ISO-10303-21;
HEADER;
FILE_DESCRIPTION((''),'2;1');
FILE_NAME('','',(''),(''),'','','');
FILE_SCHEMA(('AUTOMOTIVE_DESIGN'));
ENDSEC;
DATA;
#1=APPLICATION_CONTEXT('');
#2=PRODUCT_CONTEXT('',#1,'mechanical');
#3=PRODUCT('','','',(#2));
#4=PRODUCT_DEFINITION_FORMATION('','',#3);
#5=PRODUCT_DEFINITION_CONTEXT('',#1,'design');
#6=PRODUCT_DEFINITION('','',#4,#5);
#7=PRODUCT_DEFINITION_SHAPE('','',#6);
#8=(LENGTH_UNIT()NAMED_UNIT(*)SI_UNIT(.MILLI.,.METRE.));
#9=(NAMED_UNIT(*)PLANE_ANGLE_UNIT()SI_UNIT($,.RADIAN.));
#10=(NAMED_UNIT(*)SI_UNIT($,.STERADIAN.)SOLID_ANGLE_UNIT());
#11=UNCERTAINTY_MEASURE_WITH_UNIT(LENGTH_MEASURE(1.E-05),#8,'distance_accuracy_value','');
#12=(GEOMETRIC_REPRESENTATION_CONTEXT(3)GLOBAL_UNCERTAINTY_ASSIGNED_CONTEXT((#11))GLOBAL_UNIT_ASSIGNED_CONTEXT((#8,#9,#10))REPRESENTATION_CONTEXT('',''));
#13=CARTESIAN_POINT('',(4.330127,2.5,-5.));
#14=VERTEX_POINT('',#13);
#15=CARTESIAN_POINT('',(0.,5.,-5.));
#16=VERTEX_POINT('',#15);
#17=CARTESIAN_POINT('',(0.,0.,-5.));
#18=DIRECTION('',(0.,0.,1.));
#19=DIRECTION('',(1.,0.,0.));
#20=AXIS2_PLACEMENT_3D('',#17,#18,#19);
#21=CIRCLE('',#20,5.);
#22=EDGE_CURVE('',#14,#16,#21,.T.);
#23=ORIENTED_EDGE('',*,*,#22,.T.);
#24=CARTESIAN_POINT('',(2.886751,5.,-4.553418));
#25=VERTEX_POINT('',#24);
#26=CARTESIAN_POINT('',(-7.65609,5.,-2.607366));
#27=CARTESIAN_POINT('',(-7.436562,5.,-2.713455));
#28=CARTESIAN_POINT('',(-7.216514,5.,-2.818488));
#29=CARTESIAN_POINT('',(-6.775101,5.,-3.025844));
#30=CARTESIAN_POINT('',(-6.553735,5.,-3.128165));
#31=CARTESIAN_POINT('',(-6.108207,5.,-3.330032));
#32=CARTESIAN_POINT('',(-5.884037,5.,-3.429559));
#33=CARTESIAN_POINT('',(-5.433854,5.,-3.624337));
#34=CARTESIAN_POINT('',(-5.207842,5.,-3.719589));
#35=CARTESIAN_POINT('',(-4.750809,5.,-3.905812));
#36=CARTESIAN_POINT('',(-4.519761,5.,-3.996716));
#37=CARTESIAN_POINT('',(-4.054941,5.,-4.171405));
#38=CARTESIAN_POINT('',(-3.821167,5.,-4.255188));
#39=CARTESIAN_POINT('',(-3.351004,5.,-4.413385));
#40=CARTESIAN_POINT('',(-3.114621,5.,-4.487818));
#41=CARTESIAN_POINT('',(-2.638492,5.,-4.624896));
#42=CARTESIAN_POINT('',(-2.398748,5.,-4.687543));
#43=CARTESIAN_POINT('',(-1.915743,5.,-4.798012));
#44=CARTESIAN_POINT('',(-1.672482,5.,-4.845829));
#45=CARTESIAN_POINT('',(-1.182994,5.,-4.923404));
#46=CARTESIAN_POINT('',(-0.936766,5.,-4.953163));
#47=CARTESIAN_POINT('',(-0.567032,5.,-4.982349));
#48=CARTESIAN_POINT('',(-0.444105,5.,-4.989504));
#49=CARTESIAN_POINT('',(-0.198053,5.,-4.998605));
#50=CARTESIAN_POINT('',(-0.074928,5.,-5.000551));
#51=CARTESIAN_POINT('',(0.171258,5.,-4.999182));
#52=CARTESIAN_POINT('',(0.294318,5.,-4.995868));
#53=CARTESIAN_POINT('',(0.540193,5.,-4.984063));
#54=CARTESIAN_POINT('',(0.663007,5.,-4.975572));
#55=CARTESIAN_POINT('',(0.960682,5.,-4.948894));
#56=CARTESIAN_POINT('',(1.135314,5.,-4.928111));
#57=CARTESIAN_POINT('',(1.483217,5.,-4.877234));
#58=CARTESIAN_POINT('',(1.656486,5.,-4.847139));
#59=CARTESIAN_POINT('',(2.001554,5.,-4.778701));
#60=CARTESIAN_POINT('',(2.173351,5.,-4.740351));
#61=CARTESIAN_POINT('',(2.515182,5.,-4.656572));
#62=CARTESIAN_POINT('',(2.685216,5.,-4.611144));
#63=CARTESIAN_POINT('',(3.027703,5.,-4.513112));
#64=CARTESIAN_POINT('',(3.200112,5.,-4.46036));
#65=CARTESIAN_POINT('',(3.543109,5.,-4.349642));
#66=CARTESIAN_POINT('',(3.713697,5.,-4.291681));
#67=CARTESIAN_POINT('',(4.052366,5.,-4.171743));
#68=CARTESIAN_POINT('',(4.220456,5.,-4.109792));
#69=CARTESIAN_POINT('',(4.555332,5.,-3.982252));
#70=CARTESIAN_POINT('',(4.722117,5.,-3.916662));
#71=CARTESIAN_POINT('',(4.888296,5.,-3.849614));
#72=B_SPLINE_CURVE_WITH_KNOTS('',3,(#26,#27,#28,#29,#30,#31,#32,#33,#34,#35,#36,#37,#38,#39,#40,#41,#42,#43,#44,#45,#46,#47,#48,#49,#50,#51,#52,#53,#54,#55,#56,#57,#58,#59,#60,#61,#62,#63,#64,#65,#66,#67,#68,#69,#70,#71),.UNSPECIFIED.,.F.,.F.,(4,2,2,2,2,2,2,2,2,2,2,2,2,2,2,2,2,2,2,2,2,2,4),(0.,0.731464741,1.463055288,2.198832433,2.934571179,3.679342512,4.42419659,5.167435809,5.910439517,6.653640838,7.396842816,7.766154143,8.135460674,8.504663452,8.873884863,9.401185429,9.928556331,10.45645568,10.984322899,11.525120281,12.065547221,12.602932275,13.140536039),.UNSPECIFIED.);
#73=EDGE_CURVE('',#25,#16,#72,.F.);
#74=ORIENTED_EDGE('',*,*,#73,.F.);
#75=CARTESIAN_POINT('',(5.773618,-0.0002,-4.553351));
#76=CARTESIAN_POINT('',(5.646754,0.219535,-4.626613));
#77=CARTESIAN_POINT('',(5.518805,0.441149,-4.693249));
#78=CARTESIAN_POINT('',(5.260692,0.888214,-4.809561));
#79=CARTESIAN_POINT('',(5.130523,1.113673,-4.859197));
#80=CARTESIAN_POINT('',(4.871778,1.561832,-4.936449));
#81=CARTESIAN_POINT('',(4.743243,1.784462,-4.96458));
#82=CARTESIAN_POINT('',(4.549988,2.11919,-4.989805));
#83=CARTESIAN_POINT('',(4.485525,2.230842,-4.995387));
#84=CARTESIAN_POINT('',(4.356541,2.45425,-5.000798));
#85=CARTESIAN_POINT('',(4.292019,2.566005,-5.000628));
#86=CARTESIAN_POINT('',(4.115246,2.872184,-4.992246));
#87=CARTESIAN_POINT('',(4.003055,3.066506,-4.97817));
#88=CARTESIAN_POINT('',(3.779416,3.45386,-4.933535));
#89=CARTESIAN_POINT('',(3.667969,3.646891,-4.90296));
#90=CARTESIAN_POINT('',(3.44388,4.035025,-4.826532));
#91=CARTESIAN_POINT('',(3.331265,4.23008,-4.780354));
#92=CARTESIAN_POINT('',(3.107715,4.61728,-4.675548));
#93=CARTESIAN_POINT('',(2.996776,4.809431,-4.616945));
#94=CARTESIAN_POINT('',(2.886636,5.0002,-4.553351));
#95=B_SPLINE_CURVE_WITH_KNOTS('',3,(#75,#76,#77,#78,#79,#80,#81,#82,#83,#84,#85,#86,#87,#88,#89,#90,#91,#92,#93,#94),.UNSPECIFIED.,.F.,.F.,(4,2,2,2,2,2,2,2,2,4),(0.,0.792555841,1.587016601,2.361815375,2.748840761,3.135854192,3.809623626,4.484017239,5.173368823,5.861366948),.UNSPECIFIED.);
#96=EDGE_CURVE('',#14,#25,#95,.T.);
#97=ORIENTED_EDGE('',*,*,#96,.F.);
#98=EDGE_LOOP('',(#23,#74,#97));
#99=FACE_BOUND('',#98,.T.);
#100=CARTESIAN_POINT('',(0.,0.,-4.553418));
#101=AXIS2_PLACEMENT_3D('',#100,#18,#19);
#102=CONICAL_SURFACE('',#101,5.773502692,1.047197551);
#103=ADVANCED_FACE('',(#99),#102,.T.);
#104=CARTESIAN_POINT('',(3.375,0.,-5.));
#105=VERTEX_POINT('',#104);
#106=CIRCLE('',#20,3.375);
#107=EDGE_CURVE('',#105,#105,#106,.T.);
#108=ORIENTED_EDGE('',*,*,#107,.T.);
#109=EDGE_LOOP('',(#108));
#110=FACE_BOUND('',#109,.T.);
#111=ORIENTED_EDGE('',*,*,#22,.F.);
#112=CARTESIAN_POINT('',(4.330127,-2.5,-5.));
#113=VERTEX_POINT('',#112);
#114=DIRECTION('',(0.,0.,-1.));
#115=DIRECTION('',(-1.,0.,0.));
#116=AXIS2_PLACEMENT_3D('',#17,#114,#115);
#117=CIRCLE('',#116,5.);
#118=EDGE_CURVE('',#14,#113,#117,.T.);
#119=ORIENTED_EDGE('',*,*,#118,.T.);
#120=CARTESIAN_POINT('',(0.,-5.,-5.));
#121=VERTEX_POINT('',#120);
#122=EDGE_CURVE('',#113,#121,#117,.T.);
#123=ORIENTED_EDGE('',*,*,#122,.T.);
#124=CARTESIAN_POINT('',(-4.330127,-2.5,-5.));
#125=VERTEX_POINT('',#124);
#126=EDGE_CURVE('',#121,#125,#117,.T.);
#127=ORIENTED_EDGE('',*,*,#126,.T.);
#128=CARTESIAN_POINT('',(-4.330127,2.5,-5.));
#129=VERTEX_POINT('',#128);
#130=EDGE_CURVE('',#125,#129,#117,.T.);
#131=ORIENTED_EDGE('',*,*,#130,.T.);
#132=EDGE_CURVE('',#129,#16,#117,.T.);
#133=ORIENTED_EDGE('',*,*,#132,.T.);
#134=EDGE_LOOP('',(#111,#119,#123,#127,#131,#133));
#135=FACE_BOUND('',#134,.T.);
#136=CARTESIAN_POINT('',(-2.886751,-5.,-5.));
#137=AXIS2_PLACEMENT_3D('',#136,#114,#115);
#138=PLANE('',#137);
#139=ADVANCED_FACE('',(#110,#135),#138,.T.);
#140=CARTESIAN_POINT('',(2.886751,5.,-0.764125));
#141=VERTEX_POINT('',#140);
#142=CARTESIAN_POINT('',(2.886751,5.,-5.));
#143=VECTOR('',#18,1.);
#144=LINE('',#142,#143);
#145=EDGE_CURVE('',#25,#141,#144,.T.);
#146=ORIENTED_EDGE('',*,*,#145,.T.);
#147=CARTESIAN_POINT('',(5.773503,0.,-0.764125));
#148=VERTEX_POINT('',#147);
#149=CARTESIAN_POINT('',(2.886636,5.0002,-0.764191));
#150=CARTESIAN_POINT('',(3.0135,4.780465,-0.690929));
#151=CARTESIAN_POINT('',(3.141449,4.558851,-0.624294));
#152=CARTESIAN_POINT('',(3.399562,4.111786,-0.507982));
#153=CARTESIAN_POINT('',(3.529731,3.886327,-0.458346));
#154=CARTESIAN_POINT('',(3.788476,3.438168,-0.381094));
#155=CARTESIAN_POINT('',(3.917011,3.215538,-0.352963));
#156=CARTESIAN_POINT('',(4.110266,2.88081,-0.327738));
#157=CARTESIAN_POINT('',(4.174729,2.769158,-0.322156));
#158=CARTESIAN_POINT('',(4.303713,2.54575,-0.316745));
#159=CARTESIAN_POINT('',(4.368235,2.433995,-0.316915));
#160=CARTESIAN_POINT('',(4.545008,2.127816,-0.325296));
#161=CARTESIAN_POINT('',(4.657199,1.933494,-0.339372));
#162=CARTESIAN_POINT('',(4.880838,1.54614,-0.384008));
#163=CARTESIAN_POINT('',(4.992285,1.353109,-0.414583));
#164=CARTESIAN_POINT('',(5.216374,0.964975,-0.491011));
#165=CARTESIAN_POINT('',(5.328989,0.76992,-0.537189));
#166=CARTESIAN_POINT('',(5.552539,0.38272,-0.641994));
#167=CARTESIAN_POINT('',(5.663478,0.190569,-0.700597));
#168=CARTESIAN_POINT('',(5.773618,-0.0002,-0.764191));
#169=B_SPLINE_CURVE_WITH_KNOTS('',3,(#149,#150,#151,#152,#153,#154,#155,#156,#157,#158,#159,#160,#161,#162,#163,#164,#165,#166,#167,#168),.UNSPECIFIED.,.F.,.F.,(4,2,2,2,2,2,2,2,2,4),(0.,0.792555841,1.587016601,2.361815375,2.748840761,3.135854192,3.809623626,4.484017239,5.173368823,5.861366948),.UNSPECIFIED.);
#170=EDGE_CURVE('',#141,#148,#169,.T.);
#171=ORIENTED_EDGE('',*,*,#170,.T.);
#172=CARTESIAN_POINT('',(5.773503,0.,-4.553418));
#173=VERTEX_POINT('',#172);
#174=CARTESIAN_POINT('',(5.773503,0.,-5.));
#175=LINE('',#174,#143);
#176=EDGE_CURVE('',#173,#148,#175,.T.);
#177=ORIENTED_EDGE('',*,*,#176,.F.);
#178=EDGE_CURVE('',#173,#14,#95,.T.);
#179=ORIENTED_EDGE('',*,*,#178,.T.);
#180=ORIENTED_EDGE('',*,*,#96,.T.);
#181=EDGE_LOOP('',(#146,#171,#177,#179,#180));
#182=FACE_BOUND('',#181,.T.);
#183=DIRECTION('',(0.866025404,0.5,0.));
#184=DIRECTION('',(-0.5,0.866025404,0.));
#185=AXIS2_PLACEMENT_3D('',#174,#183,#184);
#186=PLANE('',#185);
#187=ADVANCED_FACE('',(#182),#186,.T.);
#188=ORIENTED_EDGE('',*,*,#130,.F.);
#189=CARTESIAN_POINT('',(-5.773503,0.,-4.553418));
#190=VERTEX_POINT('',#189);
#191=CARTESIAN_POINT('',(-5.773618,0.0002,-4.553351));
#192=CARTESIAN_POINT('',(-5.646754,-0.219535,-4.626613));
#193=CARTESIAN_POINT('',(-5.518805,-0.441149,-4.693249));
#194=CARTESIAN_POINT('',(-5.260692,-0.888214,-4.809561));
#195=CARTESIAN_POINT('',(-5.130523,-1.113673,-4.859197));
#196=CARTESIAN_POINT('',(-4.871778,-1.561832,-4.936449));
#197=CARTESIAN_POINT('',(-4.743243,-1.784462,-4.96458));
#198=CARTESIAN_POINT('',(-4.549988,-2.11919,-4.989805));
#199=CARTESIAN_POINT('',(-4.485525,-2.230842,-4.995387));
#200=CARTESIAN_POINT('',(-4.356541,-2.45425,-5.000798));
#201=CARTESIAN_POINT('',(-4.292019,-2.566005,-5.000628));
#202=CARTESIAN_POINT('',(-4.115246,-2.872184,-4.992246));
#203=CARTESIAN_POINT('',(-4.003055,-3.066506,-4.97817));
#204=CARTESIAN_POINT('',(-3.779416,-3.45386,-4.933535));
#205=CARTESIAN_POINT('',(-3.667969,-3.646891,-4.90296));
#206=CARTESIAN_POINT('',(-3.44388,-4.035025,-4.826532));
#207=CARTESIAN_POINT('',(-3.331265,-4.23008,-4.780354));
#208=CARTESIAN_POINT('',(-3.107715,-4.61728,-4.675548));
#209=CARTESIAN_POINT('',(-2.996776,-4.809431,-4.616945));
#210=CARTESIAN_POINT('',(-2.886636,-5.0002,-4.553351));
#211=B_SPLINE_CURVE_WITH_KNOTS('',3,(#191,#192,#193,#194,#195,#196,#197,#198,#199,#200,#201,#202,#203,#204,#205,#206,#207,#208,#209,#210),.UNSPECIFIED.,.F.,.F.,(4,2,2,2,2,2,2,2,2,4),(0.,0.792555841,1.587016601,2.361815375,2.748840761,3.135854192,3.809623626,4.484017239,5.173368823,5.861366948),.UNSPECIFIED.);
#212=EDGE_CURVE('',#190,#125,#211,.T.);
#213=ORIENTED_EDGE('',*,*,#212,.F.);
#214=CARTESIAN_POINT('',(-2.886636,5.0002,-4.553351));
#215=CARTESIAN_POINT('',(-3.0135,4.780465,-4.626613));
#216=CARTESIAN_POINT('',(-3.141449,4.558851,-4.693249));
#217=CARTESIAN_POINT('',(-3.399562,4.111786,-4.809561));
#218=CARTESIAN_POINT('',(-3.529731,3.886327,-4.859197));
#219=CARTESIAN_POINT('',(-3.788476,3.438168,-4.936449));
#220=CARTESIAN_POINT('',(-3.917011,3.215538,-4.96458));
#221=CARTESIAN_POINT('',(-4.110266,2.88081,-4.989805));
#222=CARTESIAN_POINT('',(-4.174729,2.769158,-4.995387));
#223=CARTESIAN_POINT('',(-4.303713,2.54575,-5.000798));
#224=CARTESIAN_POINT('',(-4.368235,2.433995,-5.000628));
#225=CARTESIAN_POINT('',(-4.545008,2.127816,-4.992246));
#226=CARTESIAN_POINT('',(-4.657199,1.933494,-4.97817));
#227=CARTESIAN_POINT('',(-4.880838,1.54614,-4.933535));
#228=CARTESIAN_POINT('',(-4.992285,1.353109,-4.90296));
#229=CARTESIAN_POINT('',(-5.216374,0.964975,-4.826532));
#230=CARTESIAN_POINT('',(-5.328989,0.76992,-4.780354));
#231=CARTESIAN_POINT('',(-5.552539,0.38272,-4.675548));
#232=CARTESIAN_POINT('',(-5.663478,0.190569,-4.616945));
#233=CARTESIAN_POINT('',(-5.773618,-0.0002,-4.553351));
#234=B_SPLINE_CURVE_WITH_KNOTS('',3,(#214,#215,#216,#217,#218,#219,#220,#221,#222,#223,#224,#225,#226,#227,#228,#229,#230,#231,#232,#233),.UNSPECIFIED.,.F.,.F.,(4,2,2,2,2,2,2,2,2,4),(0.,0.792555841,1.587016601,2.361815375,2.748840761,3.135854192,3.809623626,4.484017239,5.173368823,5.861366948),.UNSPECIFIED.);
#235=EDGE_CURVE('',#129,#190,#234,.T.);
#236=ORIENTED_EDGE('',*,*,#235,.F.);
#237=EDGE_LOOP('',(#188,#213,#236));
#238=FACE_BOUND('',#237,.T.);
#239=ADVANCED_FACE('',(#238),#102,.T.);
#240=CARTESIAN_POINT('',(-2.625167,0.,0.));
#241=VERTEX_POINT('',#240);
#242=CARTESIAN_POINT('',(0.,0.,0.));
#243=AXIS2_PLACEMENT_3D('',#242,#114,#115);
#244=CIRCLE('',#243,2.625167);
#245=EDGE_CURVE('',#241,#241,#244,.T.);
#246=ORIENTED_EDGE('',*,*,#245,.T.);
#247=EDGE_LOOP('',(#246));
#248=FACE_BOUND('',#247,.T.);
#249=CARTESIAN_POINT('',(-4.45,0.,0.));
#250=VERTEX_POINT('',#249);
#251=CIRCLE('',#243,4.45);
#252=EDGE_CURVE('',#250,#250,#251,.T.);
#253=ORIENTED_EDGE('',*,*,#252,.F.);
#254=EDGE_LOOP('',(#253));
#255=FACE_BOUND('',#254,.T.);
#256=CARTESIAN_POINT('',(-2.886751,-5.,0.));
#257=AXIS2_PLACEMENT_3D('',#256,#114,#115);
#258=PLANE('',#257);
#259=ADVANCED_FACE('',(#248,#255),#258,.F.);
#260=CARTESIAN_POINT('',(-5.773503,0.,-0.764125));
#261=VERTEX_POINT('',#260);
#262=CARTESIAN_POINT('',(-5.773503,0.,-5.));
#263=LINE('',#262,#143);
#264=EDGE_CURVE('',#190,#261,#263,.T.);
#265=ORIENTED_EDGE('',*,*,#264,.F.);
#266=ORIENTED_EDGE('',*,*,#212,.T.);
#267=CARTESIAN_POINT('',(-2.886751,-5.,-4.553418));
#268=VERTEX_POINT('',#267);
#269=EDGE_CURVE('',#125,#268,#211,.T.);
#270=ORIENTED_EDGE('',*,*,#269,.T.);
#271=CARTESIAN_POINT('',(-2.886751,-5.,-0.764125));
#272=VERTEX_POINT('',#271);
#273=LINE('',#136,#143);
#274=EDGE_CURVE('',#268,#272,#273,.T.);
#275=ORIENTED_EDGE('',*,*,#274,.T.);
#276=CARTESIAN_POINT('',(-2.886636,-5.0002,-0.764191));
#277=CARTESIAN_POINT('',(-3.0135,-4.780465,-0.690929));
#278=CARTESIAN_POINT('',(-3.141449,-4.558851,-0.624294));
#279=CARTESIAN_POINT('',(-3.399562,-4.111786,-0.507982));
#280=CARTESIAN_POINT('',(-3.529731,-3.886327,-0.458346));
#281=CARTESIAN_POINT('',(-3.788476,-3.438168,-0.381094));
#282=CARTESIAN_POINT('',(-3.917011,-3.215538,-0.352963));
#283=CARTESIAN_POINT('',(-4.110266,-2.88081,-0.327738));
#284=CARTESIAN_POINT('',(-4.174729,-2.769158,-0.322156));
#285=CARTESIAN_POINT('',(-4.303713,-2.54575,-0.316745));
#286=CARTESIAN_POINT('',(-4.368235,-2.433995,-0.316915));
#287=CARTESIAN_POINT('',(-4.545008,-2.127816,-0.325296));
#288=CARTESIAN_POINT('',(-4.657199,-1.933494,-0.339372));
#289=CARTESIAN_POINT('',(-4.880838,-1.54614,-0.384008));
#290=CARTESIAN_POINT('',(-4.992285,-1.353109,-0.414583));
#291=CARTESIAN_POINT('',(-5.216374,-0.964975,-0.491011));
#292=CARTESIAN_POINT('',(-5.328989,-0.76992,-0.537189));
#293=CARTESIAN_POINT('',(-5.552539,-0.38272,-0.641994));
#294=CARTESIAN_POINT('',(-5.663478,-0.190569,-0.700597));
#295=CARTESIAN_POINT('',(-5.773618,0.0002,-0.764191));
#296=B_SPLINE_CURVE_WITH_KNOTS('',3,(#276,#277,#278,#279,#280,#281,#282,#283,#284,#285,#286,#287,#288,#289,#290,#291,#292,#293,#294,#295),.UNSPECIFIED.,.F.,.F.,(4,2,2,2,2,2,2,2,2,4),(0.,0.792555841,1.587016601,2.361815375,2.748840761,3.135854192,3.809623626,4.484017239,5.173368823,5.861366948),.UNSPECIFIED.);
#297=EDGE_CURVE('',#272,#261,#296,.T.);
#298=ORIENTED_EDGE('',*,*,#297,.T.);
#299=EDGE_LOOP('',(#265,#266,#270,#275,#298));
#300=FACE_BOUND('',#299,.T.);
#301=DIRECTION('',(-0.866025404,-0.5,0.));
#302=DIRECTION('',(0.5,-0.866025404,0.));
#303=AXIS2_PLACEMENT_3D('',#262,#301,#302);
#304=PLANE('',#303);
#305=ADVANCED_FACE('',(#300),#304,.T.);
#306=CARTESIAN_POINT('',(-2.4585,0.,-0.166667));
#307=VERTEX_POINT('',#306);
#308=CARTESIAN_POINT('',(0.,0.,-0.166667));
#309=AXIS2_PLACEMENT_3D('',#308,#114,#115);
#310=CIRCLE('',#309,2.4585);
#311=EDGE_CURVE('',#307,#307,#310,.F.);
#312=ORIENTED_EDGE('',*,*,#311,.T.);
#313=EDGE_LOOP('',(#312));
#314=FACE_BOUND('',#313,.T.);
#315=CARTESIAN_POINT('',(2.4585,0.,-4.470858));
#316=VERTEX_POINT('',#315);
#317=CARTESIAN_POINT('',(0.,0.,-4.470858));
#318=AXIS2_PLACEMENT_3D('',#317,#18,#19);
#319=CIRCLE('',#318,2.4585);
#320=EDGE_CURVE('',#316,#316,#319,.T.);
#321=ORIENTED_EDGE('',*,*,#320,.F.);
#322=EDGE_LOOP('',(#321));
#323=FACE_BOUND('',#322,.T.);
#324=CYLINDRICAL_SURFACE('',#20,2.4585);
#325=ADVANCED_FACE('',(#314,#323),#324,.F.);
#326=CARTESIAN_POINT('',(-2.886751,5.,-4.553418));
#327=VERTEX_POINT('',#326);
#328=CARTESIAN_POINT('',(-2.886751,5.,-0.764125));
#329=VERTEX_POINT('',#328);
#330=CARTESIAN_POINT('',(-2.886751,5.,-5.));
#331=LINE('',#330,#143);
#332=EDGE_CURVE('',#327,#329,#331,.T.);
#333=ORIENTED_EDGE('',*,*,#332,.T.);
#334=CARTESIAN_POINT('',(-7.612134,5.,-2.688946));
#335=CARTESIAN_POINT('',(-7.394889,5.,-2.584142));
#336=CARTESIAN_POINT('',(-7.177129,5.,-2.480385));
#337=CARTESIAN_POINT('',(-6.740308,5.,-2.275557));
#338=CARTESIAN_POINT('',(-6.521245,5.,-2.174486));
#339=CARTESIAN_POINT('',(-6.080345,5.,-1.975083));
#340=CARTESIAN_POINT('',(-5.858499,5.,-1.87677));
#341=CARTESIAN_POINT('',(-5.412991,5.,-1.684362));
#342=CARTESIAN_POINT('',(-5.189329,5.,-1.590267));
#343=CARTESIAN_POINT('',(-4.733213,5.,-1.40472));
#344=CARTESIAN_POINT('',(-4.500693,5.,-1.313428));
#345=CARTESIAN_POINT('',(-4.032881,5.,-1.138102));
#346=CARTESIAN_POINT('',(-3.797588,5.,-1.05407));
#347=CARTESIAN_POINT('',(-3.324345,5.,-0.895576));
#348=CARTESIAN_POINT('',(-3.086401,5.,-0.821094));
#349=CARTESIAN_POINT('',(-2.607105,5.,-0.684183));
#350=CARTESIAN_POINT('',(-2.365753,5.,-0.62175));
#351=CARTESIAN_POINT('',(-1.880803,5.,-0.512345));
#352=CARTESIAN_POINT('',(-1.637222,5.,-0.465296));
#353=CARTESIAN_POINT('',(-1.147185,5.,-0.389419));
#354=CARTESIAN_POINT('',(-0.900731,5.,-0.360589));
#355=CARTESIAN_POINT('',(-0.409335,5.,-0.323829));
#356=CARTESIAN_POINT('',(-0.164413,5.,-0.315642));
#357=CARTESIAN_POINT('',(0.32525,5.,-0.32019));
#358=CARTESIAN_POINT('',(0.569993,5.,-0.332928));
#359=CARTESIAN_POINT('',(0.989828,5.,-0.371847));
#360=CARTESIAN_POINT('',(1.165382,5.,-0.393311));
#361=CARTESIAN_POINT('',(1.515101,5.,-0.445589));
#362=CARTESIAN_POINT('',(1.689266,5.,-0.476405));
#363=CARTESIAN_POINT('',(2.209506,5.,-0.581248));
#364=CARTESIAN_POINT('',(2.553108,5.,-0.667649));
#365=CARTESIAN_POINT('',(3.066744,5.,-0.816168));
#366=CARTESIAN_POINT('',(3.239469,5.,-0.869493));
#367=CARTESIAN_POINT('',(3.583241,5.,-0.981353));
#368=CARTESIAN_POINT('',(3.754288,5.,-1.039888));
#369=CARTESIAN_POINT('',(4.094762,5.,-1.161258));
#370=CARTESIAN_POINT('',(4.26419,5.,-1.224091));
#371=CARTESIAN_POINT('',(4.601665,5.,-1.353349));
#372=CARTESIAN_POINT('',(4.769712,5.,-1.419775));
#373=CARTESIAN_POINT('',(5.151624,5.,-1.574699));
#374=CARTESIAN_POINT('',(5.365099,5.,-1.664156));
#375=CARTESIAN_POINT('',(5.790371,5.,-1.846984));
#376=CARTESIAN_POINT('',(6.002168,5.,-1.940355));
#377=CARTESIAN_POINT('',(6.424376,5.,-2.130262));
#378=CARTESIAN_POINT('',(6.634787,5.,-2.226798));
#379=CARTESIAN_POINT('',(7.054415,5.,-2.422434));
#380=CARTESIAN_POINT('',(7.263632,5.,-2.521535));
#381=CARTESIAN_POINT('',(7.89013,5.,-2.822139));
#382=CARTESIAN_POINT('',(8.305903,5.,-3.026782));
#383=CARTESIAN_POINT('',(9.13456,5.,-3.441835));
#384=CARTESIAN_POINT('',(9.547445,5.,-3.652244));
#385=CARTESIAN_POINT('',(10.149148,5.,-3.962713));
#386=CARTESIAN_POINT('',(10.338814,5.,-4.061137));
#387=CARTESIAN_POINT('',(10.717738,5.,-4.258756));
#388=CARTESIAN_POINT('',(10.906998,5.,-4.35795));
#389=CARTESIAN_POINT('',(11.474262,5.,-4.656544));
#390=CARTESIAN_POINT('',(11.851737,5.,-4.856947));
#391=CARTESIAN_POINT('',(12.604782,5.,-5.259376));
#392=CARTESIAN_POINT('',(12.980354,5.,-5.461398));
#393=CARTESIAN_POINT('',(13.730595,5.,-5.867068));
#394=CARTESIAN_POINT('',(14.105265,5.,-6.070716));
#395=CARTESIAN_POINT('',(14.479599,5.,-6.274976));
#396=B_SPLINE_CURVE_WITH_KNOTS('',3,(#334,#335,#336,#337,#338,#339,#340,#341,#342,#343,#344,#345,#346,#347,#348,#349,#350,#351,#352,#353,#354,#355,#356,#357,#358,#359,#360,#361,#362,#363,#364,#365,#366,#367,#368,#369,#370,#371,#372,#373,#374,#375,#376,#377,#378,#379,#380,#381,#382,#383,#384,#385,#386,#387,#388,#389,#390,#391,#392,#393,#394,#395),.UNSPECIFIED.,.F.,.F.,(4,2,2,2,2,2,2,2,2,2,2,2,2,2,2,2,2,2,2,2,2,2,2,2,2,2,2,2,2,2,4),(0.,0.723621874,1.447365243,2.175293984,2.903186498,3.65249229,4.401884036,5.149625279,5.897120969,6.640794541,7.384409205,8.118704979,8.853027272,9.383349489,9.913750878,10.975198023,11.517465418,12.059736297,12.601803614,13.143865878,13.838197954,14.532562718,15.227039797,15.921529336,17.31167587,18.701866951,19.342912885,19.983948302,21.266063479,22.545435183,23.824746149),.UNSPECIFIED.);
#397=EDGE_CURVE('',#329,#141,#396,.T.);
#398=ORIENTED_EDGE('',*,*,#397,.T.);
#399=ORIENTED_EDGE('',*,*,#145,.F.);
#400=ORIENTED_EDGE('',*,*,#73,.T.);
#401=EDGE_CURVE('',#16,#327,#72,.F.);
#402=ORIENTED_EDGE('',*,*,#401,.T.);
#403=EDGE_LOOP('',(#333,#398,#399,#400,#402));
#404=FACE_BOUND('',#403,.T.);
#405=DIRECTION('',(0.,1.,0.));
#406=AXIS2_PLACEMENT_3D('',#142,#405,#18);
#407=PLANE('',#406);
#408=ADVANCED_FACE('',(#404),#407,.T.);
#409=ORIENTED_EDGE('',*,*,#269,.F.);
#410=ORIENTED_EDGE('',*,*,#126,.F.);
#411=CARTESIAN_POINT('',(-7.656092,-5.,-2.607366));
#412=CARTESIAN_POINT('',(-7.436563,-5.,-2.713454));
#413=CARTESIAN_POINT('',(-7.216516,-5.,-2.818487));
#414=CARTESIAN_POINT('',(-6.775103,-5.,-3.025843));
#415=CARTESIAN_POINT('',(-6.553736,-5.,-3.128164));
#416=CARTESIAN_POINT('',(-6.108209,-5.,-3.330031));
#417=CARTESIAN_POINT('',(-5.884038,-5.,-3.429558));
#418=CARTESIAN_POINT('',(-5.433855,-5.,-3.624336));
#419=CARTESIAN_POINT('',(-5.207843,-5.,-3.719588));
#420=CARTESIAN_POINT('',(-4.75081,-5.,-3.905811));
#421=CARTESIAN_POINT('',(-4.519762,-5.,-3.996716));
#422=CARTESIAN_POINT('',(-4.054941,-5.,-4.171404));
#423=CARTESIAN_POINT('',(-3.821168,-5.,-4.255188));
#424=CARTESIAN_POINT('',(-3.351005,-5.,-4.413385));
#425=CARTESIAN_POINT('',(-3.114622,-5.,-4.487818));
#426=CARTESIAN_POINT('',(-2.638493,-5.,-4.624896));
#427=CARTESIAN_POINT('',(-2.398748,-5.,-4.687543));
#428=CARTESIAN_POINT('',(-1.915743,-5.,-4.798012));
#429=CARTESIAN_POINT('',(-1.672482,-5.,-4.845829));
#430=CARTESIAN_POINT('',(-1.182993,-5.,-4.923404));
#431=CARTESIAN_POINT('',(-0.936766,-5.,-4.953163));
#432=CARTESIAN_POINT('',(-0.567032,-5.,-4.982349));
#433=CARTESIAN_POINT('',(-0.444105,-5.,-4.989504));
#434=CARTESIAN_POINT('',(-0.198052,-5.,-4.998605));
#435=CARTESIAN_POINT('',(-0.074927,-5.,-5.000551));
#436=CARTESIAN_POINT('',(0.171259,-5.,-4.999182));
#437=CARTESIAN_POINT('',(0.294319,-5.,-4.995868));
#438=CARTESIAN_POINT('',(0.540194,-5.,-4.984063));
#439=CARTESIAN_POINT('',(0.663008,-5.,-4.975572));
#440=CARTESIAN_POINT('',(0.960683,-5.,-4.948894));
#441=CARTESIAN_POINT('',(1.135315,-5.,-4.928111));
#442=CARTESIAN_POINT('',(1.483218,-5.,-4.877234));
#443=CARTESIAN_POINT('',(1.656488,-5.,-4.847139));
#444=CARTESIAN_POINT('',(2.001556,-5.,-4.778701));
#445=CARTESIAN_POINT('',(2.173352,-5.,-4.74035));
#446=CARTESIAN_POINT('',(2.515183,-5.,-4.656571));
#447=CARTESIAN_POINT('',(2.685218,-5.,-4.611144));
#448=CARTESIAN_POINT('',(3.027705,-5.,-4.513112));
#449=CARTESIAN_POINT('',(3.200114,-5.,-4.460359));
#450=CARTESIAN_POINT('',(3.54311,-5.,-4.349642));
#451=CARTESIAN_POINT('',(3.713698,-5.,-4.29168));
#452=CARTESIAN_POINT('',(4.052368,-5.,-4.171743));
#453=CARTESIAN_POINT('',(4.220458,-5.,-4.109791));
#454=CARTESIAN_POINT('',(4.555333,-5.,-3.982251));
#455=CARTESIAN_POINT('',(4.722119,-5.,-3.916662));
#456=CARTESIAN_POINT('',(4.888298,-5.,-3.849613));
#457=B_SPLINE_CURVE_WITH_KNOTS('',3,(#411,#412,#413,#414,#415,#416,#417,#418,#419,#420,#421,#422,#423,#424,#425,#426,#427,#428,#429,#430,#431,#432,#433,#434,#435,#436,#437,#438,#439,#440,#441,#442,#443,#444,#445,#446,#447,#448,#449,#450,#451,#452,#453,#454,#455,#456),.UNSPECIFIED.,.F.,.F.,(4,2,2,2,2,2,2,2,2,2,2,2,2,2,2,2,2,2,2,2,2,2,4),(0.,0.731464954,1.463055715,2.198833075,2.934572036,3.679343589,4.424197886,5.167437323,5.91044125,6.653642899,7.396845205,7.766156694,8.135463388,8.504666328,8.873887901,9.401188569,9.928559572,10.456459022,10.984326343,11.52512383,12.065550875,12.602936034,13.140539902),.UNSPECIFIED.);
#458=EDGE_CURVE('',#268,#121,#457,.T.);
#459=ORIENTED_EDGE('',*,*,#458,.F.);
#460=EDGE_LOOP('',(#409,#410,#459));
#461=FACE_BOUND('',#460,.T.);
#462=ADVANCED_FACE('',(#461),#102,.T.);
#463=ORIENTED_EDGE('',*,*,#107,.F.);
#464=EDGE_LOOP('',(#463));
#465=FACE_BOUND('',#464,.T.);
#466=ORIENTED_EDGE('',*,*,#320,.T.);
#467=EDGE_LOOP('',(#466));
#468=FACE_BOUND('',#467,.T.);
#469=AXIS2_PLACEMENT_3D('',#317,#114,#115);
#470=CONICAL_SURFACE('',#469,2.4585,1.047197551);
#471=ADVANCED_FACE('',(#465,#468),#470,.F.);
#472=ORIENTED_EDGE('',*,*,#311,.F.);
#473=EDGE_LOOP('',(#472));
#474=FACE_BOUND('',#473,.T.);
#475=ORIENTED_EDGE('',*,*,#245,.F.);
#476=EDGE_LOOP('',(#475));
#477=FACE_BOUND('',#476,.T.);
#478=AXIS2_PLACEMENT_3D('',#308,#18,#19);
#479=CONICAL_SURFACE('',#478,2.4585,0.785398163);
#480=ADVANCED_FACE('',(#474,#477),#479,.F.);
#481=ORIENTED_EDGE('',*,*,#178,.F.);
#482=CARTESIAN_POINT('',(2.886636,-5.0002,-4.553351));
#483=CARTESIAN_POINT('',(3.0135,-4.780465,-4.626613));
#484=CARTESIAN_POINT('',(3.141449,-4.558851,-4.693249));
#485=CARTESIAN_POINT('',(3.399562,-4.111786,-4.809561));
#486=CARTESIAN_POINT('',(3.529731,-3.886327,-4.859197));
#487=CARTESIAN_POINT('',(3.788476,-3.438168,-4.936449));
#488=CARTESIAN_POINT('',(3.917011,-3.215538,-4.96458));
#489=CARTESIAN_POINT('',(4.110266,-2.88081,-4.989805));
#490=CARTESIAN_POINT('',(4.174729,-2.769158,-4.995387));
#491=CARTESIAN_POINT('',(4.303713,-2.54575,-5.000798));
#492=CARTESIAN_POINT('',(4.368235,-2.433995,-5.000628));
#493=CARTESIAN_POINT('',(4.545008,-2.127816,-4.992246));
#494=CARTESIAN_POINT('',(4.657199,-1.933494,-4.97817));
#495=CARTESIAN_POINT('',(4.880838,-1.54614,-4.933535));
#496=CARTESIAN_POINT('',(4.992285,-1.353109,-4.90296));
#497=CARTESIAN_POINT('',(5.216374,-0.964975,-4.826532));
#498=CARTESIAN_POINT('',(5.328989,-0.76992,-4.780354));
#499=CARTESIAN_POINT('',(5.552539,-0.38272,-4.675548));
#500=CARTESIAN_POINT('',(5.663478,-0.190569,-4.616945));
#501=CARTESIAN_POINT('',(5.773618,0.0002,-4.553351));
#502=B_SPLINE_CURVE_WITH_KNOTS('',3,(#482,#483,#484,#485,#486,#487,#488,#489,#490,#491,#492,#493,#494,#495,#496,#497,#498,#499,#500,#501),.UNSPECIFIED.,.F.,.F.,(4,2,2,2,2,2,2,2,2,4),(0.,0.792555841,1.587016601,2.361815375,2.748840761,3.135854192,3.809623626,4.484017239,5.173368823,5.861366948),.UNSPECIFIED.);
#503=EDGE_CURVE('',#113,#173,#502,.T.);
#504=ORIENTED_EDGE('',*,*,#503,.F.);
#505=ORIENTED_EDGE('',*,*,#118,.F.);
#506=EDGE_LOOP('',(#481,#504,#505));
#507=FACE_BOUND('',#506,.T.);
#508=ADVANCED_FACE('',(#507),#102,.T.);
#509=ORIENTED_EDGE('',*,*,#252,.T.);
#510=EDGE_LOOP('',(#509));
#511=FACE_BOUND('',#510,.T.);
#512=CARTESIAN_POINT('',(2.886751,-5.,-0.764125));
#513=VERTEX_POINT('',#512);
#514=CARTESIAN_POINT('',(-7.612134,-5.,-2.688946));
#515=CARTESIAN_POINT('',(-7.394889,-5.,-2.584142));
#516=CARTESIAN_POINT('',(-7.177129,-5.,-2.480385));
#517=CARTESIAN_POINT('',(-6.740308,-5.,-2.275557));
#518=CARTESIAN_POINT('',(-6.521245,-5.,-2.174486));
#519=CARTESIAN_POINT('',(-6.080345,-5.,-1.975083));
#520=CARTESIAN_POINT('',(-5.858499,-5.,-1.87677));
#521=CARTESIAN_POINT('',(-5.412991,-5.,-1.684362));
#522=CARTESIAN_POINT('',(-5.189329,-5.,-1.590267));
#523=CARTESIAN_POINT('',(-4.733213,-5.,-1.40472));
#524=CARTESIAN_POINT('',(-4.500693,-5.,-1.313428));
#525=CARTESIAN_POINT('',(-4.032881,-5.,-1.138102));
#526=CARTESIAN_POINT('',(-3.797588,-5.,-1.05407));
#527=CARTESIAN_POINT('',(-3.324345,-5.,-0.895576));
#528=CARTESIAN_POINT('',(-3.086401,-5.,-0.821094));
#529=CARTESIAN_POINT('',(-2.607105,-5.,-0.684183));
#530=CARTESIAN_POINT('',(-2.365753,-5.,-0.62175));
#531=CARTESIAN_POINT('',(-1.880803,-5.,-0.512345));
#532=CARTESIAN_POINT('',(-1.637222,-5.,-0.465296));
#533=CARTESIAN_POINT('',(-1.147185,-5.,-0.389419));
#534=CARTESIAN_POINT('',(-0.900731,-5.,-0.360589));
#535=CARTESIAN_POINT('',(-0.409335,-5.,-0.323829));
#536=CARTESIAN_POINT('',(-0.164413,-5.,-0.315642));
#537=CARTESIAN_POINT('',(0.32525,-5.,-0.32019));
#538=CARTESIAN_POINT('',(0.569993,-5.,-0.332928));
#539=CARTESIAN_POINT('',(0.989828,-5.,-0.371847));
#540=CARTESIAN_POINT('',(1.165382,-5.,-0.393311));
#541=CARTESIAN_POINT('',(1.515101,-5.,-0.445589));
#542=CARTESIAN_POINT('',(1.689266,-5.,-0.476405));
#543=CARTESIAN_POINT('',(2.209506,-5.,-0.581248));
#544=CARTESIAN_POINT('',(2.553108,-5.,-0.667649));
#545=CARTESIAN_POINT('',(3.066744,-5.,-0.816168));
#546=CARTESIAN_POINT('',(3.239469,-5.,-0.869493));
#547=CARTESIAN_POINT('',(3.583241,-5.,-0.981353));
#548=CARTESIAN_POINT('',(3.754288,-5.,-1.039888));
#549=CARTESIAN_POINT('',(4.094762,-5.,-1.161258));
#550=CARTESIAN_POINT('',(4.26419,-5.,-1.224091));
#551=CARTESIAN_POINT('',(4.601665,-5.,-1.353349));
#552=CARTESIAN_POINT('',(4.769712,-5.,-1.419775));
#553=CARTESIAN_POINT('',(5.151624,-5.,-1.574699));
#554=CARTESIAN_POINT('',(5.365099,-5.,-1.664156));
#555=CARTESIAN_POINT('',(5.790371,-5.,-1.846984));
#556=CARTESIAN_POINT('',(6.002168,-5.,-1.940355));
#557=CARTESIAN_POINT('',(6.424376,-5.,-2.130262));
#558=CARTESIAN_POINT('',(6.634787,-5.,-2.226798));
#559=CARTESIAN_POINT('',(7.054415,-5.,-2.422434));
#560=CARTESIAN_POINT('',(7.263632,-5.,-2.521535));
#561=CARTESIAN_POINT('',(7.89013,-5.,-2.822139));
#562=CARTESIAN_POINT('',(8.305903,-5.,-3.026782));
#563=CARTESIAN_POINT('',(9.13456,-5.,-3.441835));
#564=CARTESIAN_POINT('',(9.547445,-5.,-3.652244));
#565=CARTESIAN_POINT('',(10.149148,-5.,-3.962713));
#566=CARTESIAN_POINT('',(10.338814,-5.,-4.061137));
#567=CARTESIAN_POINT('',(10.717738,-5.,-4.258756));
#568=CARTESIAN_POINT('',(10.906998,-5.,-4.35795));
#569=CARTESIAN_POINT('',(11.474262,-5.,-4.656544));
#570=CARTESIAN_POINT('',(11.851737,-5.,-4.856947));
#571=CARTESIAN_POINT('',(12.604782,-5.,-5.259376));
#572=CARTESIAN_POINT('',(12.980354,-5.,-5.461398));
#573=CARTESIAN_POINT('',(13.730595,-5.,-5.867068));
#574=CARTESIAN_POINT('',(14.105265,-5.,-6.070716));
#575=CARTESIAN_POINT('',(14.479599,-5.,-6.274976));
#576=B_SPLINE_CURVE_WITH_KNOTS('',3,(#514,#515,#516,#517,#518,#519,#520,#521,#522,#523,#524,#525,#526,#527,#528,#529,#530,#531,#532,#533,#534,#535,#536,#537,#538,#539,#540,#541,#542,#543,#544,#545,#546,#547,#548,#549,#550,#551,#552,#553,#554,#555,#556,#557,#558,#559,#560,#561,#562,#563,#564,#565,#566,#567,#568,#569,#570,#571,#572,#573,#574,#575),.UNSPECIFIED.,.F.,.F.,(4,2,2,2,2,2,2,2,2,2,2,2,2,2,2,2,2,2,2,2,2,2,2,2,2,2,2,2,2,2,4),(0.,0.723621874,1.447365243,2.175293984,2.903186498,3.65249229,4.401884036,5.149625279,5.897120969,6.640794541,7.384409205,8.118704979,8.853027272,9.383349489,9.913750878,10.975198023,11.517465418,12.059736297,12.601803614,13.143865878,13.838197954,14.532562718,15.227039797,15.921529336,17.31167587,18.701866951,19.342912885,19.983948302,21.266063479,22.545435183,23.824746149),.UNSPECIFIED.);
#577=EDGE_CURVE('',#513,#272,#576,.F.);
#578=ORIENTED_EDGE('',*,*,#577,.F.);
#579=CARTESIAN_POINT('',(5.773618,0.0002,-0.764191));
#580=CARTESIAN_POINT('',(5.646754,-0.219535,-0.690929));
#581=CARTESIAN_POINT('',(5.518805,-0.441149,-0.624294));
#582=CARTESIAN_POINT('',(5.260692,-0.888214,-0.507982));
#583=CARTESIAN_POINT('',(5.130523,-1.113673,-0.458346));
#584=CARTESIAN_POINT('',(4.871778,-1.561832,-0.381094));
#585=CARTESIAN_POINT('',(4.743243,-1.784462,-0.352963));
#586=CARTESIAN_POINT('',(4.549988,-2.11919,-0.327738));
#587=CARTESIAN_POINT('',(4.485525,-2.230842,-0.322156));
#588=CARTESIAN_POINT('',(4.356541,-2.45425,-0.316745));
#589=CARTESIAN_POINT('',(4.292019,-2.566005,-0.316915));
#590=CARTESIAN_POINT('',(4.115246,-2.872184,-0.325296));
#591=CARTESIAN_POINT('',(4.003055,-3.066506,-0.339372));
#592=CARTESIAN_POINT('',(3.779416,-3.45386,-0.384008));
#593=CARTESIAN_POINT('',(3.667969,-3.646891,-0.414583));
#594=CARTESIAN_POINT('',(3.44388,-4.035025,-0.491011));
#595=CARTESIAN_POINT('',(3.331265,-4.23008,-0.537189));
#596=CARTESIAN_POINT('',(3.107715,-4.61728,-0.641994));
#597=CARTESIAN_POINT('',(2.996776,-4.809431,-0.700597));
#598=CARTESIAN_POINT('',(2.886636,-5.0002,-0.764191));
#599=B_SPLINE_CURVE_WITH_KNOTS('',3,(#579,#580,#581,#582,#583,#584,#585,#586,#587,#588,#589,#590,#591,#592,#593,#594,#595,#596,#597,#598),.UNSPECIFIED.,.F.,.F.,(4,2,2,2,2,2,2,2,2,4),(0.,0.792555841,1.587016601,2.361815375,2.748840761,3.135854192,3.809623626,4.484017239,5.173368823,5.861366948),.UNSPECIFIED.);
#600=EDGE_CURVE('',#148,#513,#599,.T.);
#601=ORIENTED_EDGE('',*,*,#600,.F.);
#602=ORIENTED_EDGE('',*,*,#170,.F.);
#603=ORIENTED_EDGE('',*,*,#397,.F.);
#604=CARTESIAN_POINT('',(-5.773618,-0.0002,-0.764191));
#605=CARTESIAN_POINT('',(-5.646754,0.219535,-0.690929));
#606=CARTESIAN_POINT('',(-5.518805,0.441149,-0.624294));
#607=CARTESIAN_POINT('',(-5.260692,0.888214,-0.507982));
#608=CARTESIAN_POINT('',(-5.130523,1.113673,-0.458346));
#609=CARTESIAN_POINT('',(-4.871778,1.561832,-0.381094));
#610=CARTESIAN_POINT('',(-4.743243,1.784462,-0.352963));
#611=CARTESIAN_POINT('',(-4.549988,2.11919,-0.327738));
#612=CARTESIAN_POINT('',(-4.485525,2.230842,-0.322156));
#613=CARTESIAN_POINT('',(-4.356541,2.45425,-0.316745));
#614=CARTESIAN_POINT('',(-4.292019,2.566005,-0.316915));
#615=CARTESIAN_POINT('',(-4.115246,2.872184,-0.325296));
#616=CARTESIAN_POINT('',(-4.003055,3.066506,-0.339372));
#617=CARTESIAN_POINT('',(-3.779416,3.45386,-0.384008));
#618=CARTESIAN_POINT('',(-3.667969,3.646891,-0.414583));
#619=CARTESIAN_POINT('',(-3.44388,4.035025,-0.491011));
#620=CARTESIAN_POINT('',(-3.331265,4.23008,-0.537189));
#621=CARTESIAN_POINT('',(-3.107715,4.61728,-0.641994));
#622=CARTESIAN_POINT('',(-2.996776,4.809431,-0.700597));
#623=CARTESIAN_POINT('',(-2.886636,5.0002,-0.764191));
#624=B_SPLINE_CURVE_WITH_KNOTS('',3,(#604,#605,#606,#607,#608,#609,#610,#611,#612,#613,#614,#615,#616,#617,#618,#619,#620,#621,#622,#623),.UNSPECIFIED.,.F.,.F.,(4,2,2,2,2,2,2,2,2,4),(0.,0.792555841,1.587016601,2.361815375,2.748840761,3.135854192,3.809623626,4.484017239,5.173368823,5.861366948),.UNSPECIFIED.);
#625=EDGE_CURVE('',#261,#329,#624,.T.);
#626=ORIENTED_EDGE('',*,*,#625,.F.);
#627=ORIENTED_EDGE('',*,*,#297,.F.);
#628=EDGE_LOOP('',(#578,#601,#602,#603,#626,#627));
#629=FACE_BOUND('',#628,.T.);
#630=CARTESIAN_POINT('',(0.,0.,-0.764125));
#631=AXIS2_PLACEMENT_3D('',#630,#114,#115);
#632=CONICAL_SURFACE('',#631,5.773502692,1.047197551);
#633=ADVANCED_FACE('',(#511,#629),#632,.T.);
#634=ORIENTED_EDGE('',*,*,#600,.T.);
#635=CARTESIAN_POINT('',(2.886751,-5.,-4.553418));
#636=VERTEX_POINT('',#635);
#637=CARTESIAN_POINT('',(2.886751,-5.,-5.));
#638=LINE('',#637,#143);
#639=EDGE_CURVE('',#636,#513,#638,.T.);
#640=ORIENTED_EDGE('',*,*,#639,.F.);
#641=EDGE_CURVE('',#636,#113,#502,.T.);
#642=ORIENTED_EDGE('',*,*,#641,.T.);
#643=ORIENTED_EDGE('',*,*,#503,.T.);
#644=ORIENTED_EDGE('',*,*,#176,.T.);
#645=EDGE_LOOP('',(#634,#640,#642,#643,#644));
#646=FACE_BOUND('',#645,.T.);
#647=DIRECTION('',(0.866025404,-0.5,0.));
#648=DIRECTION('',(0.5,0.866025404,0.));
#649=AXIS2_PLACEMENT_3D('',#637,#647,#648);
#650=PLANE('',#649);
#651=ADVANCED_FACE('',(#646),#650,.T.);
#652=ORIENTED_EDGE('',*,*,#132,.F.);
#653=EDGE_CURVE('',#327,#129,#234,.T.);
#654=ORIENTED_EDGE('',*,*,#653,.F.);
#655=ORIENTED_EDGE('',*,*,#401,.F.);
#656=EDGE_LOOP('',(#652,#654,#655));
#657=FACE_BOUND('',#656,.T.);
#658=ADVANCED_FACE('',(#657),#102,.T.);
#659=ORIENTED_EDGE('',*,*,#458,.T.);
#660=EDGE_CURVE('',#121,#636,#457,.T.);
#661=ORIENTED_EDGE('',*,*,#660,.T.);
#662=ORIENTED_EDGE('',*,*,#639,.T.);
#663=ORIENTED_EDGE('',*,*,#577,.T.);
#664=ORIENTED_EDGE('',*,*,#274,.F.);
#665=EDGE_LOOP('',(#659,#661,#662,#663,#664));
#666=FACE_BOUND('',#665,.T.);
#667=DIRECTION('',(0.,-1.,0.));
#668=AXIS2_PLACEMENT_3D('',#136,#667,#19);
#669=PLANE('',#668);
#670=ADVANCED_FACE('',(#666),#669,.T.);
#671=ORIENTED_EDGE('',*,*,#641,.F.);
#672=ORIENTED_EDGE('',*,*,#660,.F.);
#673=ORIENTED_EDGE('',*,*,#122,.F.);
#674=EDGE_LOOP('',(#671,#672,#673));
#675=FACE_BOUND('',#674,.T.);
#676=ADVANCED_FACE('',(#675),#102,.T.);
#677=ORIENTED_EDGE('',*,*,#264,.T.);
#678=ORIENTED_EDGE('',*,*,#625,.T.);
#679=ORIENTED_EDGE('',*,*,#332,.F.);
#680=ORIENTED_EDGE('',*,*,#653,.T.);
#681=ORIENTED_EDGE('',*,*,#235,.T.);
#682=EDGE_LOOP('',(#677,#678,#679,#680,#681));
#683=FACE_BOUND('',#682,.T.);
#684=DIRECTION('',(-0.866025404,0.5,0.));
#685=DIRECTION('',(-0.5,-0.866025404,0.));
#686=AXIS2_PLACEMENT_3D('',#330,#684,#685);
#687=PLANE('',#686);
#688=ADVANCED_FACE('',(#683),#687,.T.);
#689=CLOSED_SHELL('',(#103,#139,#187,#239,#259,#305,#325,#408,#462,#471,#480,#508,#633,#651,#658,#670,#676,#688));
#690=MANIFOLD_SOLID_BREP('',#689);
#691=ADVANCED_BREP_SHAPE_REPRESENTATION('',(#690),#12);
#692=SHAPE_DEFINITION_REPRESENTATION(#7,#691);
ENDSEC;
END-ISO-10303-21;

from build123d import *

# Parameters (mm, degrees)
SKETCH1_R        = 2.4585
BASENUT_DEPTH    = 5
ENDCHAMFER2_SIZE = 0.166666667


with BuildPart() as part:
    # Sketch1 → BaseNut (new body)
    with BuildSketch(Plane.XY):
        Polygon((2.886751346, -5), (5.773502692, 0), (2.886751346, 5), (-2.886751346, 5), (-5.773502692, 0), (-2.886751346, -5), align=None)
        Circle(SKETCH1_R, mode=Mode.SUBTRACT)
    extrude(amount=-BASENUT_DEPTH)

    # Sketch2 → Chamfer1 (revolve, cut)
    with BuildSketch(Plane(origin=(15.04811501, 0, -16.706149795), x_dir=(0, 0, -1), z_dir=(0, 1, 0))):
        Polygon((-12.152731783, 20.821617702), (-11.706149795, 20.04811501), (-11.706149795, 20.821617702), align=None)
    revolve(axis=Axis((0, 0, 7.016501752), (0, 0, -1)), mode=Mode.SUBTRACT)

    # Sketch6 → EndChamfer1 (revolve, cut)
    with BuildSketch(Plane(origin=(-9.197458863, 0, -10.252541137), x_dir=(0, 0, 1), z_dir=(0, 1, 0))):
        Polygon((5.252541137, 11.655958863), (5.252541137, 12.572458863), (5.781682659, 11.655958863), align=None)
    revolve(axis=Axis((0, 0, 13.104863586), (0, 0, -1)), mode=Mode.SUBTRACT)

    # Sketch5 → Chamfer2 (revolve, cut)
    with BuildSketch(Plane(origin=(-14.793032735, 0, -16.96123207), x_dir=(0, 0, 1), z_dir=(0, 1, 0)), mode=Mode.PRIVATE) as chamfer2_sk:
        Polygon((16.96123207, 19.243032735), (16.96123207, 20.566535427), (16.197107435, 20.566535427), align=None)
    revolve(chamfer2_sk.sketch.rotate(Axis((0, 0, -39.536013381), (0, 0, 1)), 180), axis=Axis((0, 0, -39.536013381), (0, 0, 1)), mode=Mode.SUBTRACT)

    # EndChamfer2
    endchamfer2_edges = [part.edges().sort_by_distance(p)[0] for p in [
        (-2.4585, 0, 0),
    ]]
    chamfer(endchamfer2_edges, length=ENDCHAMFER2_SIZE)


solid = part.part
